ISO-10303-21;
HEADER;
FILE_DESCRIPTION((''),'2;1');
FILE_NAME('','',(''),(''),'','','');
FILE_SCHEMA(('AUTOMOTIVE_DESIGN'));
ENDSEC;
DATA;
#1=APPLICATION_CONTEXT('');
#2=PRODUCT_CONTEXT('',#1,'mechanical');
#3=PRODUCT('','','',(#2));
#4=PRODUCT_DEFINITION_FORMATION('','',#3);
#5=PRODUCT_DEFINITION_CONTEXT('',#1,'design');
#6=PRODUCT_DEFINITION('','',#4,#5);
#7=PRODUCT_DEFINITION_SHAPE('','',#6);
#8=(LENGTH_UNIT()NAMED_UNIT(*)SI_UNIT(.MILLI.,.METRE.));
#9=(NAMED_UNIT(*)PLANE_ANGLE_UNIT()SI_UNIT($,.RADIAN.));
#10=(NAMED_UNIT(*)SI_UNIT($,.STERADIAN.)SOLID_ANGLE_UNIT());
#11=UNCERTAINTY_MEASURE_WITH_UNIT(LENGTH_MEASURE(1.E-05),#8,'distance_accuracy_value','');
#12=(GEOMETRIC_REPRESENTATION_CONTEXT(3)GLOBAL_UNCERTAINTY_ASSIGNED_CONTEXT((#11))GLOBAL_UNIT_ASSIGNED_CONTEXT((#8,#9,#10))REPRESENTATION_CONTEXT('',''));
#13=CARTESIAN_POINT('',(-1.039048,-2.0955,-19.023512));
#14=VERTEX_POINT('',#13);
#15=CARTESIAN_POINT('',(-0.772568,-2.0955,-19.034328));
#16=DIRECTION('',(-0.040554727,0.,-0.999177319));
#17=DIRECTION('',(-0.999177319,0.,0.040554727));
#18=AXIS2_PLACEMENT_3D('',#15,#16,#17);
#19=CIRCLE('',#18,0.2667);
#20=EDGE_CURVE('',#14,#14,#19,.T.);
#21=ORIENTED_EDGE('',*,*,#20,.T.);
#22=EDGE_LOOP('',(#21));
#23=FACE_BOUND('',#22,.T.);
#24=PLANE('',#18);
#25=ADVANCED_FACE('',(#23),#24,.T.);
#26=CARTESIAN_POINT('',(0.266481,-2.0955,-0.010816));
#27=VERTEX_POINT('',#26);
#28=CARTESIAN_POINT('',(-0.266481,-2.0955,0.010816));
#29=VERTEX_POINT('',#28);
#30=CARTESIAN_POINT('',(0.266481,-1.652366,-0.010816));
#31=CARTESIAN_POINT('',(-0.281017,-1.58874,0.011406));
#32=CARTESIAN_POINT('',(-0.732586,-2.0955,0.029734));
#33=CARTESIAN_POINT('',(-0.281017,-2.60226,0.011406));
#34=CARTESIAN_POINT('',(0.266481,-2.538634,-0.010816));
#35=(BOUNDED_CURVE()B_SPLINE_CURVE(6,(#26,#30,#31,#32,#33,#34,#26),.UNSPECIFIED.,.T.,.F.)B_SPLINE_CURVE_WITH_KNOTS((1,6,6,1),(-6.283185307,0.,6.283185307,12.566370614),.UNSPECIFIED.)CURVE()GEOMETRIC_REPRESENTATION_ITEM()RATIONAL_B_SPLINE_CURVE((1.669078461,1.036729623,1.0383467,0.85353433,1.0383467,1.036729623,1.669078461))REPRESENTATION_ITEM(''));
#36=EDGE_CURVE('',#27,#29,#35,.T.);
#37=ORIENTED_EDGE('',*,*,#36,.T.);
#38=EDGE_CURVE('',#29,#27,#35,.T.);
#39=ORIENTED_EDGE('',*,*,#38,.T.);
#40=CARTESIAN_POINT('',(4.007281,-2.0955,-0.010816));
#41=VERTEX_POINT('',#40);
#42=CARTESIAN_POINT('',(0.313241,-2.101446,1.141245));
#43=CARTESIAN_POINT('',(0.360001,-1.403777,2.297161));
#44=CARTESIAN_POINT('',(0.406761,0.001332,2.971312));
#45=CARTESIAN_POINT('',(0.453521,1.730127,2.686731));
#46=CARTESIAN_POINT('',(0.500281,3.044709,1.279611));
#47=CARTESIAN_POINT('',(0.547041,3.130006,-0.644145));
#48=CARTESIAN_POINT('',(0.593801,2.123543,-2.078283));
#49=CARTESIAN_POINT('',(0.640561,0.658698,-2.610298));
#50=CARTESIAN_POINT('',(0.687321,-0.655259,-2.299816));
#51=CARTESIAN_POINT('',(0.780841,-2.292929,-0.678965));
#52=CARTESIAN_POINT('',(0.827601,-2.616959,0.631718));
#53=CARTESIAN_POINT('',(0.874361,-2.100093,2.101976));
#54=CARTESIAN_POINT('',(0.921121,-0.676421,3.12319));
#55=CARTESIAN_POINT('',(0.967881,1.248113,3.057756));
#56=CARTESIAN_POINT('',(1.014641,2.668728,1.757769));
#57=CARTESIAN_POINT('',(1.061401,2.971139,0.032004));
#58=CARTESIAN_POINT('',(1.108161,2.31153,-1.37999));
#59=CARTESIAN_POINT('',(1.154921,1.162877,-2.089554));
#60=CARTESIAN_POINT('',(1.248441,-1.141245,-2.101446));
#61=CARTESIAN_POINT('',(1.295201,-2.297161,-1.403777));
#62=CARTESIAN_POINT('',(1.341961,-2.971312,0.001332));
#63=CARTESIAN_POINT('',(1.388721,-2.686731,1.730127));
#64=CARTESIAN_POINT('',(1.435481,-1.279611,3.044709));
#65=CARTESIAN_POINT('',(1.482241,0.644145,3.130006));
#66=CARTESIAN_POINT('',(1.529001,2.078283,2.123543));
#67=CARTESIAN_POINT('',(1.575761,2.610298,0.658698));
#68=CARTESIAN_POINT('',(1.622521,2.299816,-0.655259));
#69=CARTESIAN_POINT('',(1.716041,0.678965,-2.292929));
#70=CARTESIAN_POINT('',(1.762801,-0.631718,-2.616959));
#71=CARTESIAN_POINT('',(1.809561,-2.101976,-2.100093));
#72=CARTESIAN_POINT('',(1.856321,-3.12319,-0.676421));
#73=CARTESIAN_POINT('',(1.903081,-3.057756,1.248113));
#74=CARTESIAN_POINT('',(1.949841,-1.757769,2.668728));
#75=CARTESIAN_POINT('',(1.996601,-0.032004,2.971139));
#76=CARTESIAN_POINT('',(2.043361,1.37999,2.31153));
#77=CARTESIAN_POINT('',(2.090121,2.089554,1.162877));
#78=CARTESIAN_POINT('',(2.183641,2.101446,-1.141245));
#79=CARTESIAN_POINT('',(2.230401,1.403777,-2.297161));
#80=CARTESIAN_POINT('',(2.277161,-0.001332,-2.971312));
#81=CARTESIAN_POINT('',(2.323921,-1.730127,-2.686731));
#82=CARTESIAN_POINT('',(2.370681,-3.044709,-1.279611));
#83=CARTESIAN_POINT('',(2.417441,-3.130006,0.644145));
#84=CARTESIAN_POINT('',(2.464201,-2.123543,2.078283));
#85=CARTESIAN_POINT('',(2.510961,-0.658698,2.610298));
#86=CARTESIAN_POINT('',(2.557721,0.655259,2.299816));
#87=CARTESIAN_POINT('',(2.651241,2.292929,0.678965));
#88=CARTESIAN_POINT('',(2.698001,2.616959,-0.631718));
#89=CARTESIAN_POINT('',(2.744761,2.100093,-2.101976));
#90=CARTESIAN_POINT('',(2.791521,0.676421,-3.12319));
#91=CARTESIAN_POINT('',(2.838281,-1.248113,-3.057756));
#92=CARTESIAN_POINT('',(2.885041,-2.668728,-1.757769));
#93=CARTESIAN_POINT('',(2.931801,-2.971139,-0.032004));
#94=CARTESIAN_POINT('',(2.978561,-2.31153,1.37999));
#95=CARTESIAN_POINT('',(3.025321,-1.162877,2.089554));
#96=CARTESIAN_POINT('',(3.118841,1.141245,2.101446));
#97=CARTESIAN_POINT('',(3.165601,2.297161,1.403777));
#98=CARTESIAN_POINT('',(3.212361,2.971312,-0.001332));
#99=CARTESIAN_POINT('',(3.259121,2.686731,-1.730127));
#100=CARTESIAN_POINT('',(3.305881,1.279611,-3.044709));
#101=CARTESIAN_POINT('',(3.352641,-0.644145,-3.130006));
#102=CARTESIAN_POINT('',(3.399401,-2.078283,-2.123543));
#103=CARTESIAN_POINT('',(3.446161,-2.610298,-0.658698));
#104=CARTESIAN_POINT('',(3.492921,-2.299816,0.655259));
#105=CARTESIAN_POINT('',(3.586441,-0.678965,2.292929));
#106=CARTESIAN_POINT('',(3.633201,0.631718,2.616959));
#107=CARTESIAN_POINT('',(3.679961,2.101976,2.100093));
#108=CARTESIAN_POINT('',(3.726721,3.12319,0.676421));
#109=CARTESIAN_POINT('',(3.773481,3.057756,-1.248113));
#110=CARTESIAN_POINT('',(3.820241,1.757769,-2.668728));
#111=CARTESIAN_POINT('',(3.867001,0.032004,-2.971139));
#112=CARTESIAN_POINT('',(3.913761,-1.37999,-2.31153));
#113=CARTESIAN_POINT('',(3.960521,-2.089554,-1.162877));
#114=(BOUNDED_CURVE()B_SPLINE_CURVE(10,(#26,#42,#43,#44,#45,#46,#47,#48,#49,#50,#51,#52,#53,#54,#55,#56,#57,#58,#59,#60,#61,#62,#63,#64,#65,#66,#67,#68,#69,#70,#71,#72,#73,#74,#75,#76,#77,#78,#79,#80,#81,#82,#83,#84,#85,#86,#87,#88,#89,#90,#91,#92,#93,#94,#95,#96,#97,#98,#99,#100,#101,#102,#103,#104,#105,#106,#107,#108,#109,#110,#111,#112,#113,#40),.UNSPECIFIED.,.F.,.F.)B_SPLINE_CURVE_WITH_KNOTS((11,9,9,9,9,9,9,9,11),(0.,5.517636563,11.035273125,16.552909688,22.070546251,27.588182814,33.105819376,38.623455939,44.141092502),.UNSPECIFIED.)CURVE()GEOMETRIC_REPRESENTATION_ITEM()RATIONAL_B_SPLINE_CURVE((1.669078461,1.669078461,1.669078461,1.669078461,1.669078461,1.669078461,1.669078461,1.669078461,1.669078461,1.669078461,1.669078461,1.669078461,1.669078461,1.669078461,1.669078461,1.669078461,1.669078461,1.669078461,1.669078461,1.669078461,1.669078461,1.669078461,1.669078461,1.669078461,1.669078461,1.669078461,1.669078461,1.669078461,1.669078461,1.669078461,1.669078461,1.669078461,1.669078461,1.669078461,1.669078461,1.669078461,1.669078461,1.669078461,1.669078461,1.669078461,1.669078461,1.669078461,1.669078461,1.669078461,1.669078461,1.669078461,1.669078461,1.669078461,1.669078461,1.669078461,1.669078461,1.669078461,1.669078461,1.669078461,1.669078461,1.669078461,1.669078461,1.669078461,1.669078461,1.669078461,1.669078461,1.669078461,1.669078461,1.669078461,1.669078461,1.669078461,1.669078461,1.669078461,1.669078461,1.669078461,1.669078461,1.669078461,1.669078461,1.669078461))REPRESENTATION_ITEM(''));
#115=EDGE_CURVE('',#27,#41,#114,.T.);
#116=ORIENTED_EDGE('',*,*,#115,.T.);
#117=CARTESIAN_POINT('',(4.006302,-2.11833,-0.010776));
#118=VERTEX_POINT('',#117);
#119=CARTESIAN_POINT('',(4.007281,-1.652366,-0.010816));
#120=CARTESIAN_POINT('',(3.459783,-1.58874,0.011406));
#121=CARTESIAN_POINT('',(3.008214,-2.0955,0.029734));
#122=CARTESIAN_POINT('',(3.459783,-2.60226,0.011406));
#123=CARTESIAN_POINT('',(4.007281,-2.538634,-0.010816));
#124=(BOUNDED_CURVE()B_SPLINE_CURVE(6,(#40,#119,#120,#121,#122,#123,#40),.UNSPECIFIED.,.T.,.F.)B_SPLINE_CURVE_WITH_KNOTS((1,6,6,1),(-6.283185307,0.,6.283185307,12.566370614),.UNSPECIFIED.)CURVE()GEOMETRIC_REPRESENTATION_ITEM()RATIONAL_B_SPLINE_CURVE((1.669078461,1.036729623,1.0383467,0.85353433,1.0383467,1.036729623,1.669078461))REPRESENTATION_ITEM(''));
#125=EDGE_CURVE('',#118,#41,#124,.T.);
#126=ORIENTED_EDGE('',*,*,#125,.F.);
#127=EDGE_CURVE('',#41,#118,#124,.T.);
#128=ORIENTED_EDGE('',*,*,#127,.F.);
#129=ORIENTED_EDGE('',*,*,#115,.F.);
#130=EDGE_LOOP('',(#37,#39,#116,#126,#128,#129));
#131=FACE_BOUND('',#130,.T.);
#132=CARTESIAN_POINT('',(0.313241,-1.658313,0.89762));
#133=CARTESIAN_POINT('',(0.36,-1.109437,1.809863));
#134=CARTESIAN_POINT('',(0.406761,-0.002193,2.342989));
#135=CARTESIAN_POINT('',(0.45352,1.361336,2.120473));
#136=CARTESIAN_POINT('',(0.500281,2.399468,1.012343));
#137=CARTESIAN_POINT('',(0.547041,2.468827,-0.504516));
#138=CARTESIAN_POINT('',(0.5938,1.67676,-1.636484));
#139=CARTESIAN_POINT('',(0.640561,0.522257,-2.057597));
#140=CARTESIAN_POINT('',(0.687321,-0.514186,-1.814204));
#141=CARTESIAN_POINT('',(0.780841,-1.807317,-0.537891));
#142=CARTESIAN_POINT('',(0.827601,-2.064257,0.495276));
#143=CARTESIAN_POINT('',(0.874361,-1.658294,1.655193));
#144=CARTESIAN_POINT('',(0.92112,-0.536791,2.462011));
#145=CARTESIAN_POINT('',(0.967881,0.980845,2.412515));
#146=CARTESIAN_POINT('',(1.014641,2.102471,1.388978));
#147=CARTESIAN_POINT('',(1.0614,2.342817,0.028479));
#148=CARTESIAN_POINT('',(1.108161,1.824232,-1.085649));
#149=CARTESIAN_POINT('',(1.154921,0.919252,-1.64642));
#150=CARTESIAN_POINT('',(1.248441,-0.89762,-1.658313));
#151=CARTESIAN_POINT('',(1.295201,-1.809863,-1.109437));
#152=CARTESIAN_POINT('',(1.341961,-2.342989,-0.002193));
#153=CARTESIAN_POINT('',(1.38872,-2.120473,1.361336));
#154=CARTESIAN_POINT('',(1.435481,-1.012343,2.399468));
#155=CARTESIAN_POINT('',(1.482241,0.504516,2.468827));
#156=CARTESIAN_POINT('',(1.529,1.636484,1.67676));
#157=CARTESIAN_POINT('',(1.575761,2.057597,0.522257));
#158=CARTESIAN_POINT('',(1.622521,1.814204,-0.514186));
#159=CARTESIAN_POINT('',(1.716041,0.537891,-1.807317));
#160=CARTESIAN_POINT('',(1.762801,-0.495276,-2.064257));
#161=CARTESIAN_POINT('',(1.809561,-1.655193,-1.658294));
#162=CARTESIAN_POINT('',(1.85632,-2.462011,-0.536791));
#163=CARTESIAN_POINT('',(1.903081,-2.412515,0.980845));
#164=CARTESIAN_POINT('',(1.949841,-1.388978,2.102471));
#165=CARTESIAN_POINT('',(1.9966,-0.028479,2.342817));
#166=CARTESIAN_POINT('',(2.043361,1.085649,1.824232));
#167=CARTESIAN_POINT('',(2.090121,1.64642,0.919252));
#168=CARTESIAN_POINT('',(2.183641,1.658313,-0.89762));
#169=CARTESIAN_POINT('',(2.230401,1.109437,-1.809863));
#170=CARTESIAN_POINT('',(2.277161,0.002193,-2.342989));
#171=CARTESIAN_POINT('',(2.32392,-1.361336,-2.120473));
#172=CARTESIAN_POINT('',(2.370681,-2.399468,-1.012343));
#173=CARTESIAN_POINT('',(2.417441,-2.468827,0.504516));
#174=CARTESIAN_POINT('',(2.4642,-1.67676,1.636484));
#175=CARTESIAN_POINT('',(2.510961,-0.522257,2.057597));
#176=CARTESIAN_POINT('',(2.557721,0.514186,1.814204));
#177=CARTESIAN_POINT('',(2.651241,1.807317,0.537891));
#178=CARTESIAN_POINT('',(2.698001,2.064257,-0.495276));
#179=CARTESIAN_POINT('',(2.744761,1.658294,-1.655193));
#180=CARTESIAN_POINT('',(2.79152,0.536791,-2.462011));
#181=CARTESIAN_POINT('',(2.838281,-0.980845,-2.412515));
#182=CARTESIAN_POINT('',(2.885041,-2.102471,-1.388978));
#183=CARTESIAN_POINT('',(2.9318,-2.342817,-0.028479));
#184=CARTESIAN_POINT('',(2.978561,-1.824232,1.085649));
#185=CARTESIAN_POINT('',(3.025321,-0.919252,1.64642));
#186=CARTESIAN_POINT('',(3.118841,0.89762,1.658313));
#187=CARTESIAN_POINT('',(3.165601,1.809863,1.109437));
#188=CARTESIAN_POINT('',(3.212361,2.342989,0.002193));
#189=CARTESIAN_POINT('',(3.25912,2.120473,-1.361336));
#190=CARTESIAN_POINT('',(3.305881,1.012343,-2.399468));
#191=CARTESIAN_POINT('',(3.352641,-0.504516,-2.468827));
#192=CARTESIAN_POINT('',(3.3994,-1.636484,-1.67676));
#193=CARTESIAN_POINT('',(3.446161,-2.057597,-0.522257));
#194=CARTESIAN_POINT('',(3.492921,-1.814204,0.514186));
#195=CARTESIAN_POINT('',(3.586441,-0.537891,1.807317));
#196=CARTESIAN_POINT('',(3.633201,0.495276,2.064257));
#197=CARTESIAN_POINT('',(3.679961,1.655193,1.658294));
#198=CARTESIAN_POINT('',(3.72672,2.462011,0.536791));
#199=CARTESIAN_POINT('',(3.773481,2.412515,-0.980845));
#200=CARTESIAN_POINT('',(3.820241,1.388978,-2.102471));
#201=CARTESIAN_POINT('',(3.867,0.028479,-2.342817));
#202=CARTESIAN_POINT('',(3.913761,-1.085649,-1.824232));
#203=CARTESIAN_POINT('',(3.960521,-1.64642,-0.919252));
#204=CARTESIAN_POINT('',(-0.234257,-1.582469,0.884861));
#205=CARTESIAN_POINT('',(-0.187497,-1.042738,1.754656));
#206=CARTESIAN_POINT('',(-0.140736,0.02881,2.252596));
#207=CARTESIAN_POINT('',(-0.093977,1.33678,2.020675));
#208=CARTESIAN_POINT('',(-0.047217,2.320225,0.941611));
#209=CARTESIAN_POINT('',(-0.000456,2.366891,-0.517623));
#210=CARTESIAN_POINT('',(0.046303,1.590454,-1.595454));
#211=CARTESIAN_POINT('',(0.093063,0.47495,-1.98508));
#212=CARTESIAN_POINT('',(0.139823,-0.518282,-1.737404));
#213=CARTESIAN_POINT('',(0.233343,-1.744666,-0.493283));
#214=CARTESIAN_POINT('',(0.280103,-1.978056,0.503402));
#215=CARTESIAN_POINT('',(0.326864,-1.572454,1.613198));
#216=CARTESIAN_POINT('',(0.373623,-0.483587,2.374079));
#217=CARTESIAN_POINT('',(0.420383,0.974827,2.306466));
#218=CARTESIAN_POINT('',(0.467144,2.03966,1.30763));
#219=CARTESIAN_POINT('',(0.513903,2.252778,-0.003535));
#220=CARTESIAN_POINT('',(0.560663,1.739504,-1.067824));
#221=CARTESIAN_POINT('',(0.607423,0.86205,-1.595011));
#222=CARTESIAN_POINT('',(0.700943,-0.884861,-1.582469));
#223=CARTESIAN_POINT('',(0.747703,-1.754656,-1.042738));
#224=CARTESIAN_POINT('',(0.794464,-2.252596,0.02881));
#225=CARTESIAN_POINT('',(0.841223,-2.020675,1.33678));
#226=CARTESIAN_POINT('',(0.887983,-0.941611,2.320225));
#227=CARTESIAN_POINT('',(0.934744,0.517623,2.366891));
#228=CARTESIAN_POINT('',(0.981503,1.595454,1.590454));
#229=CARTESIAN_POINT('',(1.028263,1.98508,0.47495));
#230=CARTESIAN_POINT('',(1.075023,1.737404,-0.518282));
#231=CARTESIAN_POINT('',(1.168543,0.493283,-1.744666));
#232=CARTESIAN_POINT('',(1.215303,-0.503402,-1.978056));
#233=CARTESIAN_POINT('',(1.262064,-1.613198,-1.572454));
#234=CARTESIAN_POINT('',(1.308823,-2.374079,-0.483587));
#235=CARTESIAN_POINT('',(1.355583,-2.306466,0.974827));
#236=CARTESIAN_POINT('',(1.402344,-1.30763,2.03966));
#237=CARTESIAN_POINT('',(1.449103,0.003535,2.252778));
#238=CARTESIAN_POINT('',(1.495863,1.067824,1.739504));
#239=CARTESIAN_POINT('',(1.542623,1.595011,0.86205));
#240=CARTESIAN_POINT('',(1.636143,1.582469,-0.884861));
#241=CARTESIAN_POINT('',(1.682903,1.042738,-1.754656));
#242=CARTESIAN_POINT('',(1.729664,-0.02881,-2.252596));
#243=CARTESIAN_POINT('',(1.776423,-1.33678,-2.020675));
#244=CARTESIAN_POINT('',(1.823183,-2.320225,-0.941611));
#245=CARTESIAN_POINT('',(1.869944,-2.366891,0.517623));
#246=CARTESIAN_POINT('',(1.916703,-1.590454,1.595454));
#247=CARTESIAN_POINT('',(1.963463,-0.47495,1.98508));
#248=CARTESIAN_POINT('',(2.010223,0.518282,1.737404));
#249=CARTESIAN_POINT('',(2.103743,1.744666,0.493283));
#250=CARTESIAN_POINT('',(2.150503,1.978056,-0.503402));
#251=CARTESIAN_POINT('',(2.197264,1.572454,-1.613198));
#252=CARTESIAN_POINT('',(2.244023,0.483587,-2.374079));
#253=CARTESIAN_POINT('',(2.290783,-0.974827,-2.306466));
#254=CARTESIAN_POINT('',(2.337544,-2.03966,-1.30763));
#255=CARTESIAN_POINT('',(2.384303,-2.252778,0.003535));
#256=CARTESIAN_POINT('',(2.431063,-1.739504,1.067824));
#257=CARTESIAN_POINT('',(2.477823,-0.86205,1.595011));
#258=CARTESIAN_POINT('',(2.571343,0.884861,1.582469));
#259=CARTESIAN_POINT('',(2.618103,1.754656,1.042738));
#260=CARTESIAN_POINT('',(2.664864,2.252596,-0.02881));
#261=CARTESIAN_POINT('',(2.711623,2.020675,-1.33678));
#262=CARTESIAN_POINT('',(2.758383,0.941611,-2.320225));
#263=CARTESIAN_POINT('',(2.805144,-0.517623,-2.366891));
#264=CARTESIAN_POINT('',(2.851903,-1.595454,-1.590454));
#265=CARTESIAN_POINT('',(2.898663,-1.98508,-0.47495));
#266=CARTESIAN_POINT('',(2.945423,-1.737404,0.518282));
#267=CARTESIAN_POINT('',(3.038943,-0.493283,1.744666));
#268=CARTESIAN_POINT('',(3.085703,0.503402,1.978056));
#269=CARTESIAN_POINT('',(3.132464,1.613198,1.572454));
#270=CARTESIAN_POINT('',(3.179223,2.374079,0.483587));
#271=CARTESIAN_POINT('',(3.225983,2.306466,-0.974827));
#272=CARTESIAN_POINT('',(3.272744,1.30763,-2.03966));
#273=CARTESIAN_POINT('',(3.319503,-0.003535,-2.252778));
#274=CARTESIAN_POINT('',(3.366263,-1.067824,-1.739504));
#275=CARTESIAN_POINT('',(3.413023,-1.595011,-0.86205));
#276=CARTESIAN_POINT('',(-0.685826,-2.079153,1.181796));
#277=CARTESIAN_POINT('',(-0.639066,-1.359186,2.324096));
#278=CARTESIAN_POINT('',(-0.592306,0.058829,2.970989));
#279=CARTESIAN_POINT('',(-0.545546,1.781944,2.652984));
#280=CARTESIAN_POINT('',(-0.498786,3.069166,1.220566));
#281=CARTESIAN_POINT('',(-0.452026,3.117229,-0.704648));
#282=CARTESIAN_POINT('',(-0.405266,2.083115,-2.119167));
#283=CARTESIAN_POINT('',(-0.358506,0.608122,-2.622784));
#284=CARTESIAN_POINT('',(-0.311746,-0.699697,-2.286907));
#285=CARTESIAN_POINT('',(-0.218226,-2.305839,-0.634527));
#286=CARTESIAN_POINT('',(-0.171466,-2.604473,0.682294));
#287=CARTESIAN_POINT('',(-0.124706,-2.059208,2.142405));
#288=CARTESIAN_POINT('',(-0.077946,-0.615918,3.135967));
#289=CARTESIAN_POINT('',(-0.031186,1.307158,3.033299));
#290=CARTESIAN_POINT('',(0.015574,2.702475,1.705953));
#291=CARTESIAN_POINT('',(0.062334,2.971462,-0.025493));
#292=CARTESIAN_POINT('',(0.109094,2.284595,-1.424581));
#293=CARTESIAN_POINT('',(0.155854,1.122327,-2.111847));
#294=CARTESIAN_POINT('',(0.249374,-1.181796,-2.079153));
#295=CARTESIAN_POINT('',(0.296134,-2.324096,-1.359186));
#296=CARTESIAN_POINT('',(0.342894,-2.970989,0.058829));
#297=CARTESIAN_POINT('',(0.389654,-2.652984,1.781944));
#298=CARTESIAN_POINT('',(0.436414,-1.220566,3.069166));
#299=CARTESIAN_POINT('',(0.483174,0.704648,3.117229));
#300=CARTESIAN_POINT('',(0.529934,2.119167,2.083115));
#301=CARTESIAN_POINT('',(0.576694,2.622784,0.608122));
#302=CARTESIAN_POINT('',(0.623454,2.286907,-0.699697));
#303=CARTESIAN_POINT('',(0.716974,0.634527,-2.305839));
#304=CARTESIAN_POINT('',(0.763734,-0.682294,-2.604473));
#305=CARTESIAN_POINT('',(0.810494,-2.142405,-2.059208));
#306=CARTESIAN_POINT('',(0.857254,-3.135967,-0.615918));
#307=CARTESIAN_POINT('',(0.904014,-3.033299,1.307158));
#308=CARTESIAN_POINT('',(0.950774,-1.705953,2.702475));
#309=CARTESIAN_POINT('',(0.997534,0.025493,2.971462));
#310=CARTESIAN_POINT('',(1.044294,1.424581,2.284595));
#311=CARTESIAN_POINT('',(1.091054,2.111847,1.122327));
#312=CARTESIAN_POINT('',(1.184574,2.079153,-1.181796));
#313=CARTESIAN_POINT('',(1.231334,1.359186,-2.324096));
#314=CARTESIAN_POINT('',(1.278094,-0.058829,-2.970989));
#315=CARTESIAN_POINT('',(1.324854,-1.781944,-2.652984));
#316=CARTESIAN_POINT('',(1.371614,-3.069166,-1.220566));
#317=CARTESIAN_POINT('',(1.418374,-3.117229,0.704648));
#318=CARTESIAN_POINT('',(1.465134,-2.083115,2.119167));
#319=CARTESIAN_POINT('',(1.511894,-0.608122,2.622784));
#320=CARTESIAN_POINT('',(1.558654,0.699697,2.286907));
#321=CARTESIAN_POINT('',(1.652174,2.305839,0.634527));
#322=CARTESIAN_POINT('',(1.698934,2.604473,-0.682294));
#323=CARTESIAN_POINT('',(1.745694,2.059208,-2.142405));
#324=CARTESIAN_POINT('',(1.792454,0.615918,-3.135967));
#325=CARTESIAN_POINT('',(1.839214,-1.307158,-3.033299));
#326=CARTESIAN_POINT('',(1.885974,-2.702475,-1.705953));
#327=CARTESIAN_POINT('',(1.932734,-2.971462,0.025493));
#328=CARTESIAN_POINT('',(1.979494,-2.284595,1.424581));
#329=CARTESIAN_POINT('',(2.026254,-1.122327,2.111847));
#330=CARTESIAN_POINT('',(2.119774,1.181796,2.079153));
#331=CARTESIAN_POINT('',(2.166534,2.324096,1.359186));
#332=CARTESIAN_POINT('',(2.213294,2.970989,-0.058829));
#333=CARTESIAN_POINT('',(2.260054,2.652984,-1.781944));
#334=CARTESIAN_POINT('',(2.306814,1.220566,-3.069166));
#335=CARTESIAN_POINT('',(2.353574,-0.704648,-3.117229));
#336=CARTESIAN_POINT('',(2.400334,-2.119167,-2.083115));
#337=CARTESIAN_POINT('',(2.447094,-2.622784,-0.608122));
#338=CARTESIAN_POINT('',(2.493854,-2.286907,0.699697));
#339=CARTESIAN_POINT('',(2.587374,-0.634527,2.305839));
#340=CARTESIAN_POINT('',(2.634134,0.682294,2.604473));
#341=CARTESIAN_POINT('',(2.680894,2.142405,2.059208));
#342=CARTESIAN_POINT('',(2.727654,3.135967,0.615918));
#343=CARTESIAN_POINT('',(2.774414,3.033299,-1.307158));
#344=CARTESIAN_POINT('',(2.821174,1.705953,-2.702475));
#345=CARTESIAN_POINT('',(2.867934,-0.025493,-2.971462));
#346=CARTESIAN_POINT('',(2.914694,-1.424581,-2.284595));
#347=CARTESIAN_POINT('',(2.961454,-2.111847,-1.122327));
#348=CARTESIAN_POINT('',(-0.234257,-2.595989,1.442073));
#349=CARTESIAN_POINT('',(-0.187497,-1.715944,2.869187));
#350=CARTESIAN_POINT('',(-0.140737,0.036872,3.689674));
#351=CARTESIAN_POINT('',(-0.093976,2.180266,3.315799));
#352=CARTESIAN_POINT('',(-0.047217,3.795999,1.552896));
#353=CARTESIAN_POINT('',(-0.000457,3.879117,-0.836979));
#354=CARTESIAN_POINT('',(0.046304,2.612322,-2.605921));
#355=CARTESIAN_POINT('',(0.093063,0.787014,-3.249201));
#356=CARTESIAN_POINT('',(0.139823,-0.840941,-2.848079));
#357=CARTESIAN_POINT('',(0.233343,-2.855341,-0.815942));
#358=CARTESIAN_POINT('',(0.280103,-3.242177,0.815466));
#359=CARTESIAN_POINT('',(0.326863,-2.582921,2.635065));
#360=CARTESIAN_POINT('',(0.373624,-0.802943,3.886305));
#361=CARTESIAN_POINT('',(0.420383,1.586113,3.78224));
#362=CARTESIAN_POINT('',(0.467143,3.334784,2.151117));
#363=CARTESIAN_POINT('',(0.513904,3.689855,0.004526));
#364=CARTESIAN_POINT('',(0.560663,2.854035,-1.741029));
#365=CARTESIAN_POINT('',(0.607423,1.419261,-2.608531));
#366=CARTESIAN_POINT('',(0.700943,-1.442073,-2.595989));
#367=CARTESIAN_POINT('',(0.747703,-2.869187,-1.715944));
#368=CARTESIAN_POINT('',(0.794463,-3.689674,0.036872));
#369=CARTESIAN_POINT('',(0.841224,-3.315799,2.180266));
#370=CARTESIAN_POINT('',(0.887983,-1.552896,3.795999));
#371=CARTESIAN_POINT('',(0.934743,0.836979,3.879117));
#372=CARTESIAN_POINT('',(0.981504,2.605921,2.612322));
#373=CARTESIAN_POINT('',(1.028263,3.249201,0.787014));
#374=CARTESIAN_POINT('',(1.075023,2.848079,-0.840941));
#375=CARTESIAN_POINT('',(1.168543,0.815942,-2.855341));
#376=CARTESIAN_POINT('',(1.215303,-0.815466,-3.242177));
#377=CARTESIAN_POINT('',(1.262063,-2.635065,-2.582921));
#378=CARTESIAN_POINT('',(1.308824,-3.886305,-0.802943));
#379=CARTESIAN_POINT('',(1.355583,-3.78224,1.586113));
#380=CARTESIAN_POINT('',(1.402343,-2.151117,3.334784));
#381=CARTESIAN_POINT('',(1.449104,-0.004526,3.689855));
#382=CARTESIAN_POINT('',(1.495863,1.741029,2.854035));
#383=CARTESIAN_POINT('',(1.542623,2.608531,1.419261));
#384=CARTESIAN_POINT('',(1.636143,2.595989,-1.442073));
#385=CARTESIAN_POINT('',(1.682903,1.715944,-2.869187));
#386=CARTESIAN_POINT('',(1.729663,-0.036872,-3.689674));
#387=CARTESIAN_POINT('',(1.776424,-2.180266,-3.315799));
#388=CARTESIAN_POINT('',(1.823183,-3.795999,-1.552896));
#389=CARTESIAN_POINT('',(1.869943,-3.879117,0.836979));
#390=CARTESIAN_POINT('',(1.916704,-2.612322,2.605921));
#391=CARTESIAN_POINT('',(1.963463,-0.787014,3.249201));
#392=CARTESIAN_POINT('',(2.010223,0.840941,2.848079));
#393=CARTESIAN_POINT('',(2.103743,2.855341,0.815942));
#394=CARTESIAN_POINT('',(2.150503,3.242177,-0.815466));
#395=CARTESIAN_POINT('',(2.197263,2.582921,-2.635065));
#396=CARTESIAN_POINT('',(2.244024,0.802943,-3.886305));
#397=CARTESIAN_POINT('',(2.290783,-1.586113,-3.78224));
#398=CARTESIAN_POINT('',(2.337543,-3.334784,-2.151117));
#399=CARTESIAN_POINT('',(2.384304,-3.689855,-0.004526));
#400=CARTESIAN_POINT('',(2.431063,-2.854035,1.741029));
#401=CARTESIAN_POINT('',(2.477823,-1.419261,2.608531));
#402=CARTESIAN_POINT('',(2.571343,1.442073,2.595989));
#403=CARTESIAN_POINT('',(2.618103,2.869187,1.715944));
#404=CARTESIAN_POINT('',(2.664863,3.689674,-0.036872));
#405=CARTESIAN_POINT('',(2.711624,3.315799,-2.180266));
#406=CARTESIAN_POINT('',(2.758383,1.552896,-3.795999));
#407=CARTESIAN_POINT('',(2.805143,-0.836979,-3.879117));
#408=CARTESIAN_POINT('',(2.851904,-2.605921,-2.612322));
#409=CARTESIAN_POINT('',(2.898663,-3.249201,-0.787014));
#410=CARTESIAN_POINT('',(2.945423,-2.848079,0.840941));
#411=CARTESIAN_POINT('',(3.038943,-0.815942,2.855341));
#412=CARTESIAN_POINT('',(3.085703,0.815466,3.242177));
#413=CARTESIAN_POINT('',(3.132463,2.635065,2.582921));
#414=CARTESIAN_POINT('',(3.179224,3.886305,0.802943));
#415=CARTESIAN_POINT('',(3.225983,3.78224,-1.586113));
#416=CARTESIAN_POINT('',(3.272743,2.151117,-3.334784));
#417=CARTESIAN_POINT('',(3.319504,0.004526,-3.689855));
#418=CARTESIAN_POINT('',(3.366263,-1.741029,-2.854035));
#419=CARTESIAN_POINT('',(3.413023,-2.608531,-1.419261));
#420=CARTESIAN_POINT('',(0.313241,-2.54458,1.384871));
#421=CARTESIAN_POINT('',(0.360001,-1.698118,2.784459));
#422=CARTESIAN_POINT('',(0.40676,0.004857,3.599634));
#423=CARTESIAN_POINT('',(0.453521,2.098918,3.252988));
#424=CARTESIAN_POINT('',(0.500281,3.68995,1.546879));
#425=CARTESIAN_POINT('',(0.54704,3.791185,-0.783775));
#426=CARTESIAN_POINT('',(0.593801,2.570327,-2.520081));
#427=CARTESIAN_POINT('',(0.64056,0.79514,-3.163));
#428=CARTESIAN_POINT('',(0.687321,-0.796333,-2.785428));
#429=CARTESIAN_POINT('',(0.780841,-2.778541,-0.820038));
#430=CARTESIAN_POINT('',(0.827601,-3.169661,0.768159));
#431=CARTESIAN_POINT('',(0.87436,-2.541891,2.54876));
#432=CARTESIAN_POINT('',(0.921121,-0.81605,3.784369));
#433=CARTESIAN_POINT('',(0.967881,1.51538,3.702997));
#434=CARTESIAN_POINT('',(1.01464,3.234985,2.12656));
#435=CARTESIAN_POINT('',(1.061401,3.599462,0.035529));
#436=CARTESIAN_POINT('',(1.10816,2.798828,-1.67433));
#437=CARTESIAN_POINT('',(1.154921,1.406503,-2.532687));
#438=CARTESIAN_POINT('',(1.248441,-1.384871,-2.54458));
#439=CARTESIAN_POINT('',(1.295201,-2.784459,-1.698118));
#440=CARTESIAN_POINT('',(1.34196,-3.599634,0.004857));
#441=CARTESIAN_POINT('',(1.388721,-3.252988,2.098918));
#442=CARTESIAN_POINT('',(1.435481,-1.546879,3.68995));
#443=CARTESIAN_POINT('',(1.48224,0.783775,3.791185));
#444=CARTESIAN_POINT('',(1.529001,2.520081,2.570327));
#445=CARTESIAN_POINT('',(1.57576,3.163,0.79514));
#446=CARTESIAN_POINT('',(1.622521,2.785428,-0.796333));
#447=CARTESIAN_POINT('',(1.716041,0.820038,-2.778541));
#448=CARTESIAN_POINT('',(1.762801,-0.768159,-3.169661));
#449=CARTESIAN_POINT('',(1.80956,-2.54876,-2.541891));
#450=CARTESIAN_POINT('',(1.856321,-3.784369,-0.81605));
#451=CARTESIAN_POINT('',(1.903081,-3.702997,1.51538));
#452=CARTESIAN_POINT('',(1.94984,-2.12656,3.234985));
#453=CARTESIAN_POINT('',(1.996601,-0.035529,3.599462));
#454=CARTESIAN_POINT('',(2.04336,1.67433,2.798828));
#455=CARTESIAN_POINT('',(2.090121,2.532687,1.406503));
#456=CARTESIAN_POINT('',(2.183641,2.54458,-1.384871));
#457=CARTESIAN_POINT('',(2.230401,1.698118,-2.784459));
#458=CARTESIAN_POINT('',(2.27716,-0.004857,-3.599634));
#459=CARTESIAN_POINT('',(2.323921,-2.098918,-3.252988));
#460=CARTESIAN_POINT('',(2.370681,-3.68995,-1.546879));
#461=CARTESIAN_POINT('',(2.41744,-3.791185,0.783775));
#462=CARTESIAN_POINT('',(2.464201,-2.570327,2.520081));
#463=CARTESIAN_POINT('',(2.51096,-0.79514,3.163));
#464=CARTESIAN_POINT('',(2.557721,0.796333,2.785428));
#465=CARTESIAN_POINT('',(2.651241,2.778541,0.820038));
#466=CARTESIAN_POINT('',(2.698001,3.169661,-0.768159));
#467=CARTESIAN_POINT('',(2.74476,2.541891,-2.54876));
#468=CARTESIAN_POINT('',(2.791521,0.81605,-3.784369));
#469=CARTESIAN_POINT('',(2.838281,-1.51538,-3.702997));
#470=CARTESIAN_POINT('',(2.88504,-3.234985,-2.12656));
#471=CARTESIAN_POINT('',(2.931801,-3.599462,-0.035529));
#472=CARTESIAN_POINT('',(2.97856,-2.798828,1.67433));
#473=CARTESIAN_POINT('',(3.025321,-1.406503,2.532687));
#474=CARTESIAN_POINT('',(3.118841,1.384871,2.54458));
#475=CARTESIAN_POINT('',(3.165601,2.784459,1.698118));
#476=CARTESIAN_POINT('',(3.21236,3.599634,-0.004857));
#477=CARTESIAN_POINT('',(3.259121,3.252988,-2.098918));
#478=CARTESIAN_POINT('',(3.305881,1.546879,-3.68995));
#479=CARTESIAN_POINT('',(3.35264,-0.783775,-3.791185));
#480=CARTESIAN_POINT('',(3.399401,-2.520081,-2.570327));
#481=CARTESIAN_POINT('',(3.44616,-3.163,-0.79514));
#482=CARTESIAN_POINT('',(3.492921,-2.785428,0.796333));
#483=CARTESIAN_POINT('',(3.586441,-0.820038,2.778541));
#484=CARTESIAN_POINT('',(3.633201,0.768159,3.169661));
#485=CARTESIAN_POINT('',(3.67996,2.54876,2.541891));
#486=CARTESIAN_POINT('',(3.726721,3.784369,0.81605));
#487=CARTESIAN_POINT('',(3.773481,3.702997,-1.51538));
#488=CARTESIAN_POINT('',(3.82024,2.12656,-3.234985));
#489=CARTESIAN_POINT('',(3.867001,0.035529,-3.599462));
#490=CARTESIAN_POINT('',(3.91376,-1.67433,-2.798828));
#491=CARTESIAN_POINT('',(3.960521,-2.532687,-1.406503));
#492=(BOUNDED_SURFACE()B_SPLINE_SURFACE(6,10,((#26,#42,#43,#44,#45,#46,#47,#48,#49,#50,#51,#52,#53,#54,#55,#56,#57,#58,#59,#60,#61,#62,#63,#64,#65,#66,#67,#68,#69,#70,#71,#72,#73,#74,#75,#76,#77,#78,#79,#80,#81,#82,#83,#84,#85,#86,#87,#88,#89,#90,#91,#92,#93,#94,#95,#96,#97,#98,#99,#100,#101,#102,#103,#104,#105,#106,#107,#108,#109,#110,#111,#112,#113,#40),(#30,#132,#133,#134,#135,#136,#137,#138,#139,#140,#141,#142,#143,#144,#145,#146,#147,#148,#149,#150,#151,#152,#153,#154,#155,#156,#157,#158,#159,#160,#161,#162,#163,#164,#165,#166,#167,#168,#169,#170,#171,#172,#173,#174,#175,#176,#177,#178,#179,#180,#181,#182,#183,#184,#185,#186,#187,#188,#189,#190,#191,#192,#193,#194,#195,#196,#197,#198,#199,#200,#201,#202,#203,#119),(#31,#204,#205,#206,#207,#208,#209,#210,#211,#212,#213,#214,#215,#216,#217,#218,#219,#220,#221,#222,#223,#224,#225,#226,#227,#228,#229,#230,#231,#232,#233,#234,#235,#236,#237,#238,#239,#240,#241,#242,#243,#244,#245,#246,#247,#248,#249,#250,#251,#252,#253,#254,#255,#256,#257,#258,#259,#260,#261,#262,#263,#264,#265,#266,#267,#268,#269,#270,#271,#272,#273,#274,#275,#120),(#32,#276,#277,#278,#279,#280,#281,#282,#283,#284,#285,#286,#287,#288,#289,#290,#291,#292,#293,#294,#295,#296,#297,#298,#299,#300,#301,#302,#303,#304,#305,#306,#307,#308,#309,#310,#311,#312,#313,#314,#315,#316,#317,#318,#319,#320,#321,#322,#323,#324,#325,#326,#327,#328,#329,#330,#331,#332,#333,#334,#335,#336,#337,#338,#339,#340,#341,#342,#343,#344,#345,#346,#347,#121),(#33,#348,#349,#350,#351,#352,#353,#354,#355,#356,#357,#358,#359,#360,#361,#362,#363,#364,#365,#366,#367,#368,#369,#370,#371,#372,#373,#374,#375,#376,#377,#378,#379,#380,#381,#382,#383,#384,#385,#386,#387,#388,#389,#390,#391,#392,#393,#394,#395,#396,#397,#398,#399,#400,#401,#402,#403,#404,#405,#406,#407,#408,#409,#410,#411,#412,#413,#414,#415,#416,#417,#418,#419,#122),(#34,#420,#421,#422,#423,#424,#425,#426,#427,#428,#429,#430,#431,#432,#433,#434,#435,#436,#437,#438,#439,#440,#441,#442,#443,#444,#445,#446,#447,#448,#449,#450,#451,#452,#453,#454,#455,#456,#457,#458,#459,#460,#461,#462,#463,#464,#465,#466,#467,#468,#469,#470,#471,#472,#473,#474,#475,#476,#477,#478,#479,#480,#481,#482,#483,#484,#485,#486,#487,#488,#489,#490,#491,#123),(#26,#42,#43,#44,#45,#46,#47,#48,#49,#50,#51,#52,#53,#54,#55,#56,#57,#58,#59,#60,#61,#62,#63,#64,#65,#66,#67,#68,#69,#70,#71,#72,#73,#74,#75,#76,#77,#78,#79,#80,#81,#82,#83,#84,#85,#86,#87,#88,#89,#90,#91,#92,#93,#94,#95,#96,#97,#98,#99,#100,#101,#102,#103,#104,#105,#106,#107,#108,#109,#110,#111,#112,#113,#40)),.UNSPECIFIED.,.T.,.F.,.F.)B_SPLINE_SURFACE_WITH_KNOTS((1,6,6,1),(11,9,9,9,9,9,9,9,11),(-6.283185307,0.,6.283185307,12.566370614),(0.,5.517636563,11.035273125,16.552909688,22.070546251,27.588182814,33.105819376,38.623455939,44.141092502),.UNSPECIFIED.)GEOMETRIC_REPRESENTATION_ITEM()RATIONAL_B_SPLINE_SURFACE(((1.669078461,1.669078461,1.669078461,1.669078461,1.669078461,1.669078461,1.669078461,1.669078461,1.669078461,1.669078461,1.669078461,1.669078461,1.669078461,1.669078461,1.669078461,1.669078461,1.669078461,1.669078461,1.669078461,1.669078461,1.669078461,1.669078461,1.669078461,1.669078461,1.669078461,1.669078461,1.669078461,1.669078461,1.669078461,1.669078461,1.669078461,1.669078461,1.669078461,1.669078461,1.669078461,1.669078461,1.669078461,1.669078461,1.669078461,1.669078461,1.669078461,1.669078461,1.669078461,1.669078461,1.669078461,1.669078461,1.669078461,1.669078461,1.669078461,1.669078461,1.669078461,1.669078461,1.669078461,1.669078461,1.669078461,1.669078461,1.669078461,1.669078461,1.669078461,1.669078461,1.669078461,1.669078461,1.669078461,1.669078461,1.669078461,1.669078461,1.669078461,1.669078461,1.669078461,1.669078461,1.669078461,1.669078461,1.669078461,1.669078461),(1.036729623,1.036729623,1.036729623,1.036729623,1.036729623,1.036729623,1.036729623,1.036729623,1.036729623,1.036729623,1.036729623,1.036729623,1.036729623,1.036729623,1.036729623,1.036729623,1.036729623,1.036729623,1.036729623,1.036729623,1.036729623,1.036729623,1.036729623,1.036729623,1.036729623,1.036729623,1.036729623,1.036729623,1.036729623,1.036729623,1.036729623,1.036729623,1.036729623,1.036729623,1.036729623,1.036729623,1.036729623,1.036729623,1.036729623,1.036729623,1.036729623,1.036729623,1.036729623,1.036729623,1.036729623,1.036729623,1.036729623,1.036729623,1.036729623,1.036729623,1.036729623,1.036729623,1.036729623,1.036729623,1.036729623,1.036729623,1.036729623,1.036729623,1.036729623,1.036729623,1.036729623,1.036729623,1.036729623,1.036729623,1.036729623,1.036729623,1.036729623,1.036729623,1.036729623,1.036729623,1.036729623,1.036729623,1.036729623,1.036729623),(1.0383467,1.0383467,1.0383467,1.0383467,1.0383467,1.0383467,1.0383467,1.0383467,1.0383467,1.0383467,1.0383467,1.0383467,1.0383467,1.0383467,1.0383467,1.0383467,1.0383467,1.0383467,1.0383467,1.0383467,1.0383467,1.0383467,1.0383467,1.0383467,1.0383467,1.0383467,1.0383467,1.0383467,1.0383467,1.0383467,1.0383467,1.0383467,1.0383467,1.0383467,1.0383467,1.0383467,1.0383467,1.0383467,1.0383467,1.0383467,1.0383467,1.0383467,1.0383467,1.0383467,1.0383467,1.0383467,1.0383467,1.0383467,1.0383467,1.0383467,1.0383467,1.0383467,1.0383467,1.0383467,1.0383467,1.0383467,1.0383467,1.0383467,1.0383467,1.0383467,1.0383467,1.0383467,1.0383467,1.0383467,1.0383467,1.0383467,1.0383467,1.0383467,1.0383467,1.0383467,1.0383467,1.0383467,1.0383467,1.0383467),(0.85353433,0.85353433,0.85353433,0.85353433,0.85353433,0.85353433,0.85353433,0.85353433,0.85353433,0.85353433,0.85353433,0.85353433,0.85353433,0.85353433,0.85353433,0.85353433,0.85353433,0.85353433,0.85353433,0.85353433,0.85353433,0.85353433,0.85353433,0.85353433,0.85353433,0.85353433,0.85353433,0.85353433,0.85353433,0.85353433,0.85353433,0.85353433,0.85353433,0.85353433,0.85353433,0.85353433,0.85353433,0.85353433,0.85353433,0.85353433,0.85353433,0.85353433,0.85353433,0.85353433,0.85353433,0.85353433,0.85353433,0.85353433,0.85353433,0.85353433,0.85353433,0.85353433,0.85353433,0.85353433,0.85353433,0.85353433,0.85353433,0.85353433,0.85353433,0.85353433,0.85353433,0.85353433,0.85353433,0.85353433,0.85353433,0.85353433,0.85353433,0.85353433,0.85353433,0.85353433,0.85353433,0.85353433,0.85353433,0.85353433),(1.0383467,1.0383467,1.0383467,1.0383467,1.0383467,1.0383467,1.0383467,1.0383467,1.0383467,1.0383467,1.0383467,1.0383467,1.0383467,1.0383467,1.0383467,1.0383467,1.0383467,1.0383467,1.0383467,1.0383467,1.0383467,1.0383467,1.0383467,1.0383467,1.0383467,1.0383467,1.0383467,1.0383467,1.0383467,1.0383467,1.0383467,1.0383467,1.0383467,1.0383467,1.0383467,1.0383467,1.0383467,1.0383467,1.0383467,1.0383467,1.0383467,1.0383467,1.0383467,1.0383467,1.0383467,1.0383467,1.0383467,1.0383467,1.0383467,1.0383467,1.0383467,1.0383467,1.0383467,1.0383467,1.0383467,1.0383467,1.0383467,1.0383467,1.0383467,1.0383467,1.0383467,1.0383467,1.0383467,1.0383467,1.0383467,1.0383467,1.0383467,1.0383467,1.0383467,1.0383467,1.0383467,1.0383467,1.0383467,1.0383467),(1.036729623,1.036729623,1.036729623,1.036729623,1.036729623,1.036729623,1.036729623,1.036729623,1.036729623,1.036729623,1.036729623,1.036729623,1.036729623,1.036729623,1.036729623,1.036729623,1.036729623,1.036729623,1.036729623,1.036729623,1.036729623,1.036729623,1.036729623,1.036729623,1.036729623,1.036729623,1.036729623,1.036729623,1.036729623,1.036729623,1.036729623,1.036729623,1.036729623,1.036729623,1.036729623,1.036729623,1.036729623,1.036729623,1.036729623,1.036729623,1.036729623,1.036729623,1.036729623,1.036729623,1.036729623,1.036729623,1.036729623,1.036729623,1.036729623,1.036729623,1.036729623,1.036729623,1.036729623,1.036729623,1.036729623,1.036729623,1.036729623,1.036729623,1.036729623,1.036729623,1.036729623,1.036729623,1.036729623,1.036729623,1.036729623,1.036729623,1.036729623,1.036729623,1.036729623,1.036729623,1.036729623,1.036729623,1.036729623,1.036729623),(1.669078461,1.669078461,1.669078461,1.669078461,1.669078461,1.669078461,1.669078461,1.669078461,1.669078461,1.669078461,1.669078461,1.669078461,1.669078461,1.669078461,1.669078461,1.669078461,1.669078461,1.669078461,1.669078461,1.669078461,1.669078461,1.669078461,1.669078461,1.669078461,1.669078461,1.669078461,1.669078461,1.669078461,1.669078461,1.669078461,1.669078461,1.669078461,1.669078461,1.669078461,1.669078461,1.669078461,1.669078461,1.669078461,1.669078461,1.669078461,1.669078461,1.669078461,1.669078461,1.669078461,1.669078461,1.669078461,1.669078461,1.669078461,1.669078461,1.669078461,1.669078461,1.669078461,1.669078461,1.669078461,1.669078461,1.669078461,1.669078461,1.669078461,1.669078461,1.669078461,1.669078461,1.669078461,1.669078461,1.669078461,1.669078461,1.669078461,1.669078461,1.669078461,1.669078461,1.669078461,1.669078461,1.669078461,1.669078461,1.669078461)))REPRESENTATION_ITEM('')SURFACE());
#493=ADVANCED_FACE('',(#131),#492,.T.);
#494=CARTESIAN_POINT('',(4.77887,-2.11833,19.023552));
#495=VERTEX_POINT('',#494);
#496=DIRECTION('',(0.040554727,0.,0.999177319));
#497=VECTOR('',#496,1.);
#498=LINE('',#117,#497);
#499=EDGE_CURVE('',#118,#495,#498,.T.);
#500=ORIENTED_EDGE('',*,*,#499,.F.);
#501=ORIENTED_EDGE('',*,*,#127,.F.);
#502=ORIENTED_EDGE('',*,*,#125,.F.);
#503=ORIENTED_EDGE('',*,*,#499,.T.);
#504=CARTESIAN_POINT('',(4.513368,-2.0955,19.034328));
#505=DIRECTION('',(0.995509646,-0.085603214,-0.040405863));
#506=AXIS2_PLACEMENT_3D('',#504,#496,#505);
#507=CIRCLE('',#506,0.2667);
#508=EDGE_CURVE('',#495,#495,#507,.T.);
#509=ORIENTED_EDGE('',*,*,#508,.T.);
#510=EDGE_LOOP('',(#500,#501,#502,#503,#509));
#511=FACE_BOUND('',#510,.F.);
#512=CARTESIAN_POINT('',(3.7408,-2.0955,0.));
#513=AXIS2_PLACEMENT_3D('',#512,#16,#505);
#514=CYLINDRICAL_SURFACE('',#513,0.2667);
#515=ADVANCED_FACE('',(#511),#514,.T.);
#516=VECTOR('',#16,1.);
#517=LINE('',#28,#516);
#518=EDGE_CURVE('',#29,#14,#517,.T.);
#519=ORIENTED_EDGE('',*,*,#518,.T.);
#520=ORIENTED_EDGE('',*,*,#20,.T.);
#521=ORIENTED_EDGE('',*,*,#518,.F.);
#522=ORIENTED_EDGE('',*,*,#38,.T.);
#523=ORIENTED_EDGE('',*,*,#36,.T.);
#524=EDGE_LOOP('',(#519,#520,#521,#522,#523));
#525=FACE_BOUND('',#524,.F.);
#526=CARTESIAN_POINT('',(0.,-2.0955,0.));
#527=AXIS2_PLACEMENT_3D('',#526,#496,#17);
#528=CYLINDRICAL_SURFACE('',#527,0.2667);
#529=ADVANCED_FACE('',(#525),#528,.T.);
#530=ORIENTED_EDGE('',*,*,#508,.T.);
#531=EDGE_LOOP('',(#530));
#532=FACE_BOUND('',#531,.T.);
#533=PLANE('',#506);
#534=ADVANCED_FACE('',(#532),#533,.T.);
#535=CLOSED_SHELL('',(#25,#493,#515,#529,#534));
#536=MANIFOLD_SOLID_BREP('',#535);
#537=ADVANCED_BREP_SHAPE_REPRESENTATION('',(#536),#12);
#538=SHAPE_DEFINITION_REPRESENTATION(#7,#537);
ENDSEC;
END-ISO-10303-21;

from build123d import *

# Parameters (mm, degrees)
SWEEP1_PITCH       = 0.5344
SWEEP1_HEIGHT      = 3.7408
SWEEP1_RADIUS      = 2.0955
SWEEP1_START_ANGLE = 90
SKETCH2_R          = 0.2667
SKETCH3_R          = 0.2667
EXTRUDE1_DEPTH     = 19.05
SKETCH4_R          = 0.2667
EXTRUDE2_DEPTH     = 19.05


with BuildPart() as part:
    # Sweep1: sweep along a helix
    with BuildLine() as sweep1_path:
        add(Helix(SWEEP1_PITCH, SWEEP1_HEIGHT, SWEEP1_RADIUS, center=(0, 0, 0), direction=(1, 0, 0), lefthand=True, mode=Mode.PRIVATE).rotate(Axis((0, 0, 0), (1, 0, 0)), SWEEP1_START_ANGLE))
    # Sketch2 → Sweep1 (sweep)
    with BuildSketch(Plane(origin=(0, -2.0955, 0), x_dir=(0.999177319, 0, -0.040554727), z_dir=(0.040554727, 0, 0.999177319))):
        Circle(SKETCH2_R)
    sweep(path=sweep1_path.line, is_frenet=True)

    # Sketch3 → Extrude1 (add)
    with BuildSketch(Plane(origin=(0, 0, 0), x_dir=(-0.999177319, 0, 0.040554727), z_dir=(-0.040554727, 0, -0.999177319))):
        with Locations((0, -2.0955)):
            Circle(SKETCH3_R)
    extrude(amount=EXTRUDE1_DEPTH)

    # Sketch4 → Extrude2 (add)
    with BuildSketch(Plane(origin=(0.006152441, 0, 0.151582316), x_dir=(0.995509646, -0.085603214, -0.040405863), z_dir=(0.040554727, 0, 0.999177319))):
        with Locations((3.90338402, -1.767847005)):
            Circle(SKETCH4_R)
    extrude(amount=EXTRUDE2_DEPTH)


solid = part.part
